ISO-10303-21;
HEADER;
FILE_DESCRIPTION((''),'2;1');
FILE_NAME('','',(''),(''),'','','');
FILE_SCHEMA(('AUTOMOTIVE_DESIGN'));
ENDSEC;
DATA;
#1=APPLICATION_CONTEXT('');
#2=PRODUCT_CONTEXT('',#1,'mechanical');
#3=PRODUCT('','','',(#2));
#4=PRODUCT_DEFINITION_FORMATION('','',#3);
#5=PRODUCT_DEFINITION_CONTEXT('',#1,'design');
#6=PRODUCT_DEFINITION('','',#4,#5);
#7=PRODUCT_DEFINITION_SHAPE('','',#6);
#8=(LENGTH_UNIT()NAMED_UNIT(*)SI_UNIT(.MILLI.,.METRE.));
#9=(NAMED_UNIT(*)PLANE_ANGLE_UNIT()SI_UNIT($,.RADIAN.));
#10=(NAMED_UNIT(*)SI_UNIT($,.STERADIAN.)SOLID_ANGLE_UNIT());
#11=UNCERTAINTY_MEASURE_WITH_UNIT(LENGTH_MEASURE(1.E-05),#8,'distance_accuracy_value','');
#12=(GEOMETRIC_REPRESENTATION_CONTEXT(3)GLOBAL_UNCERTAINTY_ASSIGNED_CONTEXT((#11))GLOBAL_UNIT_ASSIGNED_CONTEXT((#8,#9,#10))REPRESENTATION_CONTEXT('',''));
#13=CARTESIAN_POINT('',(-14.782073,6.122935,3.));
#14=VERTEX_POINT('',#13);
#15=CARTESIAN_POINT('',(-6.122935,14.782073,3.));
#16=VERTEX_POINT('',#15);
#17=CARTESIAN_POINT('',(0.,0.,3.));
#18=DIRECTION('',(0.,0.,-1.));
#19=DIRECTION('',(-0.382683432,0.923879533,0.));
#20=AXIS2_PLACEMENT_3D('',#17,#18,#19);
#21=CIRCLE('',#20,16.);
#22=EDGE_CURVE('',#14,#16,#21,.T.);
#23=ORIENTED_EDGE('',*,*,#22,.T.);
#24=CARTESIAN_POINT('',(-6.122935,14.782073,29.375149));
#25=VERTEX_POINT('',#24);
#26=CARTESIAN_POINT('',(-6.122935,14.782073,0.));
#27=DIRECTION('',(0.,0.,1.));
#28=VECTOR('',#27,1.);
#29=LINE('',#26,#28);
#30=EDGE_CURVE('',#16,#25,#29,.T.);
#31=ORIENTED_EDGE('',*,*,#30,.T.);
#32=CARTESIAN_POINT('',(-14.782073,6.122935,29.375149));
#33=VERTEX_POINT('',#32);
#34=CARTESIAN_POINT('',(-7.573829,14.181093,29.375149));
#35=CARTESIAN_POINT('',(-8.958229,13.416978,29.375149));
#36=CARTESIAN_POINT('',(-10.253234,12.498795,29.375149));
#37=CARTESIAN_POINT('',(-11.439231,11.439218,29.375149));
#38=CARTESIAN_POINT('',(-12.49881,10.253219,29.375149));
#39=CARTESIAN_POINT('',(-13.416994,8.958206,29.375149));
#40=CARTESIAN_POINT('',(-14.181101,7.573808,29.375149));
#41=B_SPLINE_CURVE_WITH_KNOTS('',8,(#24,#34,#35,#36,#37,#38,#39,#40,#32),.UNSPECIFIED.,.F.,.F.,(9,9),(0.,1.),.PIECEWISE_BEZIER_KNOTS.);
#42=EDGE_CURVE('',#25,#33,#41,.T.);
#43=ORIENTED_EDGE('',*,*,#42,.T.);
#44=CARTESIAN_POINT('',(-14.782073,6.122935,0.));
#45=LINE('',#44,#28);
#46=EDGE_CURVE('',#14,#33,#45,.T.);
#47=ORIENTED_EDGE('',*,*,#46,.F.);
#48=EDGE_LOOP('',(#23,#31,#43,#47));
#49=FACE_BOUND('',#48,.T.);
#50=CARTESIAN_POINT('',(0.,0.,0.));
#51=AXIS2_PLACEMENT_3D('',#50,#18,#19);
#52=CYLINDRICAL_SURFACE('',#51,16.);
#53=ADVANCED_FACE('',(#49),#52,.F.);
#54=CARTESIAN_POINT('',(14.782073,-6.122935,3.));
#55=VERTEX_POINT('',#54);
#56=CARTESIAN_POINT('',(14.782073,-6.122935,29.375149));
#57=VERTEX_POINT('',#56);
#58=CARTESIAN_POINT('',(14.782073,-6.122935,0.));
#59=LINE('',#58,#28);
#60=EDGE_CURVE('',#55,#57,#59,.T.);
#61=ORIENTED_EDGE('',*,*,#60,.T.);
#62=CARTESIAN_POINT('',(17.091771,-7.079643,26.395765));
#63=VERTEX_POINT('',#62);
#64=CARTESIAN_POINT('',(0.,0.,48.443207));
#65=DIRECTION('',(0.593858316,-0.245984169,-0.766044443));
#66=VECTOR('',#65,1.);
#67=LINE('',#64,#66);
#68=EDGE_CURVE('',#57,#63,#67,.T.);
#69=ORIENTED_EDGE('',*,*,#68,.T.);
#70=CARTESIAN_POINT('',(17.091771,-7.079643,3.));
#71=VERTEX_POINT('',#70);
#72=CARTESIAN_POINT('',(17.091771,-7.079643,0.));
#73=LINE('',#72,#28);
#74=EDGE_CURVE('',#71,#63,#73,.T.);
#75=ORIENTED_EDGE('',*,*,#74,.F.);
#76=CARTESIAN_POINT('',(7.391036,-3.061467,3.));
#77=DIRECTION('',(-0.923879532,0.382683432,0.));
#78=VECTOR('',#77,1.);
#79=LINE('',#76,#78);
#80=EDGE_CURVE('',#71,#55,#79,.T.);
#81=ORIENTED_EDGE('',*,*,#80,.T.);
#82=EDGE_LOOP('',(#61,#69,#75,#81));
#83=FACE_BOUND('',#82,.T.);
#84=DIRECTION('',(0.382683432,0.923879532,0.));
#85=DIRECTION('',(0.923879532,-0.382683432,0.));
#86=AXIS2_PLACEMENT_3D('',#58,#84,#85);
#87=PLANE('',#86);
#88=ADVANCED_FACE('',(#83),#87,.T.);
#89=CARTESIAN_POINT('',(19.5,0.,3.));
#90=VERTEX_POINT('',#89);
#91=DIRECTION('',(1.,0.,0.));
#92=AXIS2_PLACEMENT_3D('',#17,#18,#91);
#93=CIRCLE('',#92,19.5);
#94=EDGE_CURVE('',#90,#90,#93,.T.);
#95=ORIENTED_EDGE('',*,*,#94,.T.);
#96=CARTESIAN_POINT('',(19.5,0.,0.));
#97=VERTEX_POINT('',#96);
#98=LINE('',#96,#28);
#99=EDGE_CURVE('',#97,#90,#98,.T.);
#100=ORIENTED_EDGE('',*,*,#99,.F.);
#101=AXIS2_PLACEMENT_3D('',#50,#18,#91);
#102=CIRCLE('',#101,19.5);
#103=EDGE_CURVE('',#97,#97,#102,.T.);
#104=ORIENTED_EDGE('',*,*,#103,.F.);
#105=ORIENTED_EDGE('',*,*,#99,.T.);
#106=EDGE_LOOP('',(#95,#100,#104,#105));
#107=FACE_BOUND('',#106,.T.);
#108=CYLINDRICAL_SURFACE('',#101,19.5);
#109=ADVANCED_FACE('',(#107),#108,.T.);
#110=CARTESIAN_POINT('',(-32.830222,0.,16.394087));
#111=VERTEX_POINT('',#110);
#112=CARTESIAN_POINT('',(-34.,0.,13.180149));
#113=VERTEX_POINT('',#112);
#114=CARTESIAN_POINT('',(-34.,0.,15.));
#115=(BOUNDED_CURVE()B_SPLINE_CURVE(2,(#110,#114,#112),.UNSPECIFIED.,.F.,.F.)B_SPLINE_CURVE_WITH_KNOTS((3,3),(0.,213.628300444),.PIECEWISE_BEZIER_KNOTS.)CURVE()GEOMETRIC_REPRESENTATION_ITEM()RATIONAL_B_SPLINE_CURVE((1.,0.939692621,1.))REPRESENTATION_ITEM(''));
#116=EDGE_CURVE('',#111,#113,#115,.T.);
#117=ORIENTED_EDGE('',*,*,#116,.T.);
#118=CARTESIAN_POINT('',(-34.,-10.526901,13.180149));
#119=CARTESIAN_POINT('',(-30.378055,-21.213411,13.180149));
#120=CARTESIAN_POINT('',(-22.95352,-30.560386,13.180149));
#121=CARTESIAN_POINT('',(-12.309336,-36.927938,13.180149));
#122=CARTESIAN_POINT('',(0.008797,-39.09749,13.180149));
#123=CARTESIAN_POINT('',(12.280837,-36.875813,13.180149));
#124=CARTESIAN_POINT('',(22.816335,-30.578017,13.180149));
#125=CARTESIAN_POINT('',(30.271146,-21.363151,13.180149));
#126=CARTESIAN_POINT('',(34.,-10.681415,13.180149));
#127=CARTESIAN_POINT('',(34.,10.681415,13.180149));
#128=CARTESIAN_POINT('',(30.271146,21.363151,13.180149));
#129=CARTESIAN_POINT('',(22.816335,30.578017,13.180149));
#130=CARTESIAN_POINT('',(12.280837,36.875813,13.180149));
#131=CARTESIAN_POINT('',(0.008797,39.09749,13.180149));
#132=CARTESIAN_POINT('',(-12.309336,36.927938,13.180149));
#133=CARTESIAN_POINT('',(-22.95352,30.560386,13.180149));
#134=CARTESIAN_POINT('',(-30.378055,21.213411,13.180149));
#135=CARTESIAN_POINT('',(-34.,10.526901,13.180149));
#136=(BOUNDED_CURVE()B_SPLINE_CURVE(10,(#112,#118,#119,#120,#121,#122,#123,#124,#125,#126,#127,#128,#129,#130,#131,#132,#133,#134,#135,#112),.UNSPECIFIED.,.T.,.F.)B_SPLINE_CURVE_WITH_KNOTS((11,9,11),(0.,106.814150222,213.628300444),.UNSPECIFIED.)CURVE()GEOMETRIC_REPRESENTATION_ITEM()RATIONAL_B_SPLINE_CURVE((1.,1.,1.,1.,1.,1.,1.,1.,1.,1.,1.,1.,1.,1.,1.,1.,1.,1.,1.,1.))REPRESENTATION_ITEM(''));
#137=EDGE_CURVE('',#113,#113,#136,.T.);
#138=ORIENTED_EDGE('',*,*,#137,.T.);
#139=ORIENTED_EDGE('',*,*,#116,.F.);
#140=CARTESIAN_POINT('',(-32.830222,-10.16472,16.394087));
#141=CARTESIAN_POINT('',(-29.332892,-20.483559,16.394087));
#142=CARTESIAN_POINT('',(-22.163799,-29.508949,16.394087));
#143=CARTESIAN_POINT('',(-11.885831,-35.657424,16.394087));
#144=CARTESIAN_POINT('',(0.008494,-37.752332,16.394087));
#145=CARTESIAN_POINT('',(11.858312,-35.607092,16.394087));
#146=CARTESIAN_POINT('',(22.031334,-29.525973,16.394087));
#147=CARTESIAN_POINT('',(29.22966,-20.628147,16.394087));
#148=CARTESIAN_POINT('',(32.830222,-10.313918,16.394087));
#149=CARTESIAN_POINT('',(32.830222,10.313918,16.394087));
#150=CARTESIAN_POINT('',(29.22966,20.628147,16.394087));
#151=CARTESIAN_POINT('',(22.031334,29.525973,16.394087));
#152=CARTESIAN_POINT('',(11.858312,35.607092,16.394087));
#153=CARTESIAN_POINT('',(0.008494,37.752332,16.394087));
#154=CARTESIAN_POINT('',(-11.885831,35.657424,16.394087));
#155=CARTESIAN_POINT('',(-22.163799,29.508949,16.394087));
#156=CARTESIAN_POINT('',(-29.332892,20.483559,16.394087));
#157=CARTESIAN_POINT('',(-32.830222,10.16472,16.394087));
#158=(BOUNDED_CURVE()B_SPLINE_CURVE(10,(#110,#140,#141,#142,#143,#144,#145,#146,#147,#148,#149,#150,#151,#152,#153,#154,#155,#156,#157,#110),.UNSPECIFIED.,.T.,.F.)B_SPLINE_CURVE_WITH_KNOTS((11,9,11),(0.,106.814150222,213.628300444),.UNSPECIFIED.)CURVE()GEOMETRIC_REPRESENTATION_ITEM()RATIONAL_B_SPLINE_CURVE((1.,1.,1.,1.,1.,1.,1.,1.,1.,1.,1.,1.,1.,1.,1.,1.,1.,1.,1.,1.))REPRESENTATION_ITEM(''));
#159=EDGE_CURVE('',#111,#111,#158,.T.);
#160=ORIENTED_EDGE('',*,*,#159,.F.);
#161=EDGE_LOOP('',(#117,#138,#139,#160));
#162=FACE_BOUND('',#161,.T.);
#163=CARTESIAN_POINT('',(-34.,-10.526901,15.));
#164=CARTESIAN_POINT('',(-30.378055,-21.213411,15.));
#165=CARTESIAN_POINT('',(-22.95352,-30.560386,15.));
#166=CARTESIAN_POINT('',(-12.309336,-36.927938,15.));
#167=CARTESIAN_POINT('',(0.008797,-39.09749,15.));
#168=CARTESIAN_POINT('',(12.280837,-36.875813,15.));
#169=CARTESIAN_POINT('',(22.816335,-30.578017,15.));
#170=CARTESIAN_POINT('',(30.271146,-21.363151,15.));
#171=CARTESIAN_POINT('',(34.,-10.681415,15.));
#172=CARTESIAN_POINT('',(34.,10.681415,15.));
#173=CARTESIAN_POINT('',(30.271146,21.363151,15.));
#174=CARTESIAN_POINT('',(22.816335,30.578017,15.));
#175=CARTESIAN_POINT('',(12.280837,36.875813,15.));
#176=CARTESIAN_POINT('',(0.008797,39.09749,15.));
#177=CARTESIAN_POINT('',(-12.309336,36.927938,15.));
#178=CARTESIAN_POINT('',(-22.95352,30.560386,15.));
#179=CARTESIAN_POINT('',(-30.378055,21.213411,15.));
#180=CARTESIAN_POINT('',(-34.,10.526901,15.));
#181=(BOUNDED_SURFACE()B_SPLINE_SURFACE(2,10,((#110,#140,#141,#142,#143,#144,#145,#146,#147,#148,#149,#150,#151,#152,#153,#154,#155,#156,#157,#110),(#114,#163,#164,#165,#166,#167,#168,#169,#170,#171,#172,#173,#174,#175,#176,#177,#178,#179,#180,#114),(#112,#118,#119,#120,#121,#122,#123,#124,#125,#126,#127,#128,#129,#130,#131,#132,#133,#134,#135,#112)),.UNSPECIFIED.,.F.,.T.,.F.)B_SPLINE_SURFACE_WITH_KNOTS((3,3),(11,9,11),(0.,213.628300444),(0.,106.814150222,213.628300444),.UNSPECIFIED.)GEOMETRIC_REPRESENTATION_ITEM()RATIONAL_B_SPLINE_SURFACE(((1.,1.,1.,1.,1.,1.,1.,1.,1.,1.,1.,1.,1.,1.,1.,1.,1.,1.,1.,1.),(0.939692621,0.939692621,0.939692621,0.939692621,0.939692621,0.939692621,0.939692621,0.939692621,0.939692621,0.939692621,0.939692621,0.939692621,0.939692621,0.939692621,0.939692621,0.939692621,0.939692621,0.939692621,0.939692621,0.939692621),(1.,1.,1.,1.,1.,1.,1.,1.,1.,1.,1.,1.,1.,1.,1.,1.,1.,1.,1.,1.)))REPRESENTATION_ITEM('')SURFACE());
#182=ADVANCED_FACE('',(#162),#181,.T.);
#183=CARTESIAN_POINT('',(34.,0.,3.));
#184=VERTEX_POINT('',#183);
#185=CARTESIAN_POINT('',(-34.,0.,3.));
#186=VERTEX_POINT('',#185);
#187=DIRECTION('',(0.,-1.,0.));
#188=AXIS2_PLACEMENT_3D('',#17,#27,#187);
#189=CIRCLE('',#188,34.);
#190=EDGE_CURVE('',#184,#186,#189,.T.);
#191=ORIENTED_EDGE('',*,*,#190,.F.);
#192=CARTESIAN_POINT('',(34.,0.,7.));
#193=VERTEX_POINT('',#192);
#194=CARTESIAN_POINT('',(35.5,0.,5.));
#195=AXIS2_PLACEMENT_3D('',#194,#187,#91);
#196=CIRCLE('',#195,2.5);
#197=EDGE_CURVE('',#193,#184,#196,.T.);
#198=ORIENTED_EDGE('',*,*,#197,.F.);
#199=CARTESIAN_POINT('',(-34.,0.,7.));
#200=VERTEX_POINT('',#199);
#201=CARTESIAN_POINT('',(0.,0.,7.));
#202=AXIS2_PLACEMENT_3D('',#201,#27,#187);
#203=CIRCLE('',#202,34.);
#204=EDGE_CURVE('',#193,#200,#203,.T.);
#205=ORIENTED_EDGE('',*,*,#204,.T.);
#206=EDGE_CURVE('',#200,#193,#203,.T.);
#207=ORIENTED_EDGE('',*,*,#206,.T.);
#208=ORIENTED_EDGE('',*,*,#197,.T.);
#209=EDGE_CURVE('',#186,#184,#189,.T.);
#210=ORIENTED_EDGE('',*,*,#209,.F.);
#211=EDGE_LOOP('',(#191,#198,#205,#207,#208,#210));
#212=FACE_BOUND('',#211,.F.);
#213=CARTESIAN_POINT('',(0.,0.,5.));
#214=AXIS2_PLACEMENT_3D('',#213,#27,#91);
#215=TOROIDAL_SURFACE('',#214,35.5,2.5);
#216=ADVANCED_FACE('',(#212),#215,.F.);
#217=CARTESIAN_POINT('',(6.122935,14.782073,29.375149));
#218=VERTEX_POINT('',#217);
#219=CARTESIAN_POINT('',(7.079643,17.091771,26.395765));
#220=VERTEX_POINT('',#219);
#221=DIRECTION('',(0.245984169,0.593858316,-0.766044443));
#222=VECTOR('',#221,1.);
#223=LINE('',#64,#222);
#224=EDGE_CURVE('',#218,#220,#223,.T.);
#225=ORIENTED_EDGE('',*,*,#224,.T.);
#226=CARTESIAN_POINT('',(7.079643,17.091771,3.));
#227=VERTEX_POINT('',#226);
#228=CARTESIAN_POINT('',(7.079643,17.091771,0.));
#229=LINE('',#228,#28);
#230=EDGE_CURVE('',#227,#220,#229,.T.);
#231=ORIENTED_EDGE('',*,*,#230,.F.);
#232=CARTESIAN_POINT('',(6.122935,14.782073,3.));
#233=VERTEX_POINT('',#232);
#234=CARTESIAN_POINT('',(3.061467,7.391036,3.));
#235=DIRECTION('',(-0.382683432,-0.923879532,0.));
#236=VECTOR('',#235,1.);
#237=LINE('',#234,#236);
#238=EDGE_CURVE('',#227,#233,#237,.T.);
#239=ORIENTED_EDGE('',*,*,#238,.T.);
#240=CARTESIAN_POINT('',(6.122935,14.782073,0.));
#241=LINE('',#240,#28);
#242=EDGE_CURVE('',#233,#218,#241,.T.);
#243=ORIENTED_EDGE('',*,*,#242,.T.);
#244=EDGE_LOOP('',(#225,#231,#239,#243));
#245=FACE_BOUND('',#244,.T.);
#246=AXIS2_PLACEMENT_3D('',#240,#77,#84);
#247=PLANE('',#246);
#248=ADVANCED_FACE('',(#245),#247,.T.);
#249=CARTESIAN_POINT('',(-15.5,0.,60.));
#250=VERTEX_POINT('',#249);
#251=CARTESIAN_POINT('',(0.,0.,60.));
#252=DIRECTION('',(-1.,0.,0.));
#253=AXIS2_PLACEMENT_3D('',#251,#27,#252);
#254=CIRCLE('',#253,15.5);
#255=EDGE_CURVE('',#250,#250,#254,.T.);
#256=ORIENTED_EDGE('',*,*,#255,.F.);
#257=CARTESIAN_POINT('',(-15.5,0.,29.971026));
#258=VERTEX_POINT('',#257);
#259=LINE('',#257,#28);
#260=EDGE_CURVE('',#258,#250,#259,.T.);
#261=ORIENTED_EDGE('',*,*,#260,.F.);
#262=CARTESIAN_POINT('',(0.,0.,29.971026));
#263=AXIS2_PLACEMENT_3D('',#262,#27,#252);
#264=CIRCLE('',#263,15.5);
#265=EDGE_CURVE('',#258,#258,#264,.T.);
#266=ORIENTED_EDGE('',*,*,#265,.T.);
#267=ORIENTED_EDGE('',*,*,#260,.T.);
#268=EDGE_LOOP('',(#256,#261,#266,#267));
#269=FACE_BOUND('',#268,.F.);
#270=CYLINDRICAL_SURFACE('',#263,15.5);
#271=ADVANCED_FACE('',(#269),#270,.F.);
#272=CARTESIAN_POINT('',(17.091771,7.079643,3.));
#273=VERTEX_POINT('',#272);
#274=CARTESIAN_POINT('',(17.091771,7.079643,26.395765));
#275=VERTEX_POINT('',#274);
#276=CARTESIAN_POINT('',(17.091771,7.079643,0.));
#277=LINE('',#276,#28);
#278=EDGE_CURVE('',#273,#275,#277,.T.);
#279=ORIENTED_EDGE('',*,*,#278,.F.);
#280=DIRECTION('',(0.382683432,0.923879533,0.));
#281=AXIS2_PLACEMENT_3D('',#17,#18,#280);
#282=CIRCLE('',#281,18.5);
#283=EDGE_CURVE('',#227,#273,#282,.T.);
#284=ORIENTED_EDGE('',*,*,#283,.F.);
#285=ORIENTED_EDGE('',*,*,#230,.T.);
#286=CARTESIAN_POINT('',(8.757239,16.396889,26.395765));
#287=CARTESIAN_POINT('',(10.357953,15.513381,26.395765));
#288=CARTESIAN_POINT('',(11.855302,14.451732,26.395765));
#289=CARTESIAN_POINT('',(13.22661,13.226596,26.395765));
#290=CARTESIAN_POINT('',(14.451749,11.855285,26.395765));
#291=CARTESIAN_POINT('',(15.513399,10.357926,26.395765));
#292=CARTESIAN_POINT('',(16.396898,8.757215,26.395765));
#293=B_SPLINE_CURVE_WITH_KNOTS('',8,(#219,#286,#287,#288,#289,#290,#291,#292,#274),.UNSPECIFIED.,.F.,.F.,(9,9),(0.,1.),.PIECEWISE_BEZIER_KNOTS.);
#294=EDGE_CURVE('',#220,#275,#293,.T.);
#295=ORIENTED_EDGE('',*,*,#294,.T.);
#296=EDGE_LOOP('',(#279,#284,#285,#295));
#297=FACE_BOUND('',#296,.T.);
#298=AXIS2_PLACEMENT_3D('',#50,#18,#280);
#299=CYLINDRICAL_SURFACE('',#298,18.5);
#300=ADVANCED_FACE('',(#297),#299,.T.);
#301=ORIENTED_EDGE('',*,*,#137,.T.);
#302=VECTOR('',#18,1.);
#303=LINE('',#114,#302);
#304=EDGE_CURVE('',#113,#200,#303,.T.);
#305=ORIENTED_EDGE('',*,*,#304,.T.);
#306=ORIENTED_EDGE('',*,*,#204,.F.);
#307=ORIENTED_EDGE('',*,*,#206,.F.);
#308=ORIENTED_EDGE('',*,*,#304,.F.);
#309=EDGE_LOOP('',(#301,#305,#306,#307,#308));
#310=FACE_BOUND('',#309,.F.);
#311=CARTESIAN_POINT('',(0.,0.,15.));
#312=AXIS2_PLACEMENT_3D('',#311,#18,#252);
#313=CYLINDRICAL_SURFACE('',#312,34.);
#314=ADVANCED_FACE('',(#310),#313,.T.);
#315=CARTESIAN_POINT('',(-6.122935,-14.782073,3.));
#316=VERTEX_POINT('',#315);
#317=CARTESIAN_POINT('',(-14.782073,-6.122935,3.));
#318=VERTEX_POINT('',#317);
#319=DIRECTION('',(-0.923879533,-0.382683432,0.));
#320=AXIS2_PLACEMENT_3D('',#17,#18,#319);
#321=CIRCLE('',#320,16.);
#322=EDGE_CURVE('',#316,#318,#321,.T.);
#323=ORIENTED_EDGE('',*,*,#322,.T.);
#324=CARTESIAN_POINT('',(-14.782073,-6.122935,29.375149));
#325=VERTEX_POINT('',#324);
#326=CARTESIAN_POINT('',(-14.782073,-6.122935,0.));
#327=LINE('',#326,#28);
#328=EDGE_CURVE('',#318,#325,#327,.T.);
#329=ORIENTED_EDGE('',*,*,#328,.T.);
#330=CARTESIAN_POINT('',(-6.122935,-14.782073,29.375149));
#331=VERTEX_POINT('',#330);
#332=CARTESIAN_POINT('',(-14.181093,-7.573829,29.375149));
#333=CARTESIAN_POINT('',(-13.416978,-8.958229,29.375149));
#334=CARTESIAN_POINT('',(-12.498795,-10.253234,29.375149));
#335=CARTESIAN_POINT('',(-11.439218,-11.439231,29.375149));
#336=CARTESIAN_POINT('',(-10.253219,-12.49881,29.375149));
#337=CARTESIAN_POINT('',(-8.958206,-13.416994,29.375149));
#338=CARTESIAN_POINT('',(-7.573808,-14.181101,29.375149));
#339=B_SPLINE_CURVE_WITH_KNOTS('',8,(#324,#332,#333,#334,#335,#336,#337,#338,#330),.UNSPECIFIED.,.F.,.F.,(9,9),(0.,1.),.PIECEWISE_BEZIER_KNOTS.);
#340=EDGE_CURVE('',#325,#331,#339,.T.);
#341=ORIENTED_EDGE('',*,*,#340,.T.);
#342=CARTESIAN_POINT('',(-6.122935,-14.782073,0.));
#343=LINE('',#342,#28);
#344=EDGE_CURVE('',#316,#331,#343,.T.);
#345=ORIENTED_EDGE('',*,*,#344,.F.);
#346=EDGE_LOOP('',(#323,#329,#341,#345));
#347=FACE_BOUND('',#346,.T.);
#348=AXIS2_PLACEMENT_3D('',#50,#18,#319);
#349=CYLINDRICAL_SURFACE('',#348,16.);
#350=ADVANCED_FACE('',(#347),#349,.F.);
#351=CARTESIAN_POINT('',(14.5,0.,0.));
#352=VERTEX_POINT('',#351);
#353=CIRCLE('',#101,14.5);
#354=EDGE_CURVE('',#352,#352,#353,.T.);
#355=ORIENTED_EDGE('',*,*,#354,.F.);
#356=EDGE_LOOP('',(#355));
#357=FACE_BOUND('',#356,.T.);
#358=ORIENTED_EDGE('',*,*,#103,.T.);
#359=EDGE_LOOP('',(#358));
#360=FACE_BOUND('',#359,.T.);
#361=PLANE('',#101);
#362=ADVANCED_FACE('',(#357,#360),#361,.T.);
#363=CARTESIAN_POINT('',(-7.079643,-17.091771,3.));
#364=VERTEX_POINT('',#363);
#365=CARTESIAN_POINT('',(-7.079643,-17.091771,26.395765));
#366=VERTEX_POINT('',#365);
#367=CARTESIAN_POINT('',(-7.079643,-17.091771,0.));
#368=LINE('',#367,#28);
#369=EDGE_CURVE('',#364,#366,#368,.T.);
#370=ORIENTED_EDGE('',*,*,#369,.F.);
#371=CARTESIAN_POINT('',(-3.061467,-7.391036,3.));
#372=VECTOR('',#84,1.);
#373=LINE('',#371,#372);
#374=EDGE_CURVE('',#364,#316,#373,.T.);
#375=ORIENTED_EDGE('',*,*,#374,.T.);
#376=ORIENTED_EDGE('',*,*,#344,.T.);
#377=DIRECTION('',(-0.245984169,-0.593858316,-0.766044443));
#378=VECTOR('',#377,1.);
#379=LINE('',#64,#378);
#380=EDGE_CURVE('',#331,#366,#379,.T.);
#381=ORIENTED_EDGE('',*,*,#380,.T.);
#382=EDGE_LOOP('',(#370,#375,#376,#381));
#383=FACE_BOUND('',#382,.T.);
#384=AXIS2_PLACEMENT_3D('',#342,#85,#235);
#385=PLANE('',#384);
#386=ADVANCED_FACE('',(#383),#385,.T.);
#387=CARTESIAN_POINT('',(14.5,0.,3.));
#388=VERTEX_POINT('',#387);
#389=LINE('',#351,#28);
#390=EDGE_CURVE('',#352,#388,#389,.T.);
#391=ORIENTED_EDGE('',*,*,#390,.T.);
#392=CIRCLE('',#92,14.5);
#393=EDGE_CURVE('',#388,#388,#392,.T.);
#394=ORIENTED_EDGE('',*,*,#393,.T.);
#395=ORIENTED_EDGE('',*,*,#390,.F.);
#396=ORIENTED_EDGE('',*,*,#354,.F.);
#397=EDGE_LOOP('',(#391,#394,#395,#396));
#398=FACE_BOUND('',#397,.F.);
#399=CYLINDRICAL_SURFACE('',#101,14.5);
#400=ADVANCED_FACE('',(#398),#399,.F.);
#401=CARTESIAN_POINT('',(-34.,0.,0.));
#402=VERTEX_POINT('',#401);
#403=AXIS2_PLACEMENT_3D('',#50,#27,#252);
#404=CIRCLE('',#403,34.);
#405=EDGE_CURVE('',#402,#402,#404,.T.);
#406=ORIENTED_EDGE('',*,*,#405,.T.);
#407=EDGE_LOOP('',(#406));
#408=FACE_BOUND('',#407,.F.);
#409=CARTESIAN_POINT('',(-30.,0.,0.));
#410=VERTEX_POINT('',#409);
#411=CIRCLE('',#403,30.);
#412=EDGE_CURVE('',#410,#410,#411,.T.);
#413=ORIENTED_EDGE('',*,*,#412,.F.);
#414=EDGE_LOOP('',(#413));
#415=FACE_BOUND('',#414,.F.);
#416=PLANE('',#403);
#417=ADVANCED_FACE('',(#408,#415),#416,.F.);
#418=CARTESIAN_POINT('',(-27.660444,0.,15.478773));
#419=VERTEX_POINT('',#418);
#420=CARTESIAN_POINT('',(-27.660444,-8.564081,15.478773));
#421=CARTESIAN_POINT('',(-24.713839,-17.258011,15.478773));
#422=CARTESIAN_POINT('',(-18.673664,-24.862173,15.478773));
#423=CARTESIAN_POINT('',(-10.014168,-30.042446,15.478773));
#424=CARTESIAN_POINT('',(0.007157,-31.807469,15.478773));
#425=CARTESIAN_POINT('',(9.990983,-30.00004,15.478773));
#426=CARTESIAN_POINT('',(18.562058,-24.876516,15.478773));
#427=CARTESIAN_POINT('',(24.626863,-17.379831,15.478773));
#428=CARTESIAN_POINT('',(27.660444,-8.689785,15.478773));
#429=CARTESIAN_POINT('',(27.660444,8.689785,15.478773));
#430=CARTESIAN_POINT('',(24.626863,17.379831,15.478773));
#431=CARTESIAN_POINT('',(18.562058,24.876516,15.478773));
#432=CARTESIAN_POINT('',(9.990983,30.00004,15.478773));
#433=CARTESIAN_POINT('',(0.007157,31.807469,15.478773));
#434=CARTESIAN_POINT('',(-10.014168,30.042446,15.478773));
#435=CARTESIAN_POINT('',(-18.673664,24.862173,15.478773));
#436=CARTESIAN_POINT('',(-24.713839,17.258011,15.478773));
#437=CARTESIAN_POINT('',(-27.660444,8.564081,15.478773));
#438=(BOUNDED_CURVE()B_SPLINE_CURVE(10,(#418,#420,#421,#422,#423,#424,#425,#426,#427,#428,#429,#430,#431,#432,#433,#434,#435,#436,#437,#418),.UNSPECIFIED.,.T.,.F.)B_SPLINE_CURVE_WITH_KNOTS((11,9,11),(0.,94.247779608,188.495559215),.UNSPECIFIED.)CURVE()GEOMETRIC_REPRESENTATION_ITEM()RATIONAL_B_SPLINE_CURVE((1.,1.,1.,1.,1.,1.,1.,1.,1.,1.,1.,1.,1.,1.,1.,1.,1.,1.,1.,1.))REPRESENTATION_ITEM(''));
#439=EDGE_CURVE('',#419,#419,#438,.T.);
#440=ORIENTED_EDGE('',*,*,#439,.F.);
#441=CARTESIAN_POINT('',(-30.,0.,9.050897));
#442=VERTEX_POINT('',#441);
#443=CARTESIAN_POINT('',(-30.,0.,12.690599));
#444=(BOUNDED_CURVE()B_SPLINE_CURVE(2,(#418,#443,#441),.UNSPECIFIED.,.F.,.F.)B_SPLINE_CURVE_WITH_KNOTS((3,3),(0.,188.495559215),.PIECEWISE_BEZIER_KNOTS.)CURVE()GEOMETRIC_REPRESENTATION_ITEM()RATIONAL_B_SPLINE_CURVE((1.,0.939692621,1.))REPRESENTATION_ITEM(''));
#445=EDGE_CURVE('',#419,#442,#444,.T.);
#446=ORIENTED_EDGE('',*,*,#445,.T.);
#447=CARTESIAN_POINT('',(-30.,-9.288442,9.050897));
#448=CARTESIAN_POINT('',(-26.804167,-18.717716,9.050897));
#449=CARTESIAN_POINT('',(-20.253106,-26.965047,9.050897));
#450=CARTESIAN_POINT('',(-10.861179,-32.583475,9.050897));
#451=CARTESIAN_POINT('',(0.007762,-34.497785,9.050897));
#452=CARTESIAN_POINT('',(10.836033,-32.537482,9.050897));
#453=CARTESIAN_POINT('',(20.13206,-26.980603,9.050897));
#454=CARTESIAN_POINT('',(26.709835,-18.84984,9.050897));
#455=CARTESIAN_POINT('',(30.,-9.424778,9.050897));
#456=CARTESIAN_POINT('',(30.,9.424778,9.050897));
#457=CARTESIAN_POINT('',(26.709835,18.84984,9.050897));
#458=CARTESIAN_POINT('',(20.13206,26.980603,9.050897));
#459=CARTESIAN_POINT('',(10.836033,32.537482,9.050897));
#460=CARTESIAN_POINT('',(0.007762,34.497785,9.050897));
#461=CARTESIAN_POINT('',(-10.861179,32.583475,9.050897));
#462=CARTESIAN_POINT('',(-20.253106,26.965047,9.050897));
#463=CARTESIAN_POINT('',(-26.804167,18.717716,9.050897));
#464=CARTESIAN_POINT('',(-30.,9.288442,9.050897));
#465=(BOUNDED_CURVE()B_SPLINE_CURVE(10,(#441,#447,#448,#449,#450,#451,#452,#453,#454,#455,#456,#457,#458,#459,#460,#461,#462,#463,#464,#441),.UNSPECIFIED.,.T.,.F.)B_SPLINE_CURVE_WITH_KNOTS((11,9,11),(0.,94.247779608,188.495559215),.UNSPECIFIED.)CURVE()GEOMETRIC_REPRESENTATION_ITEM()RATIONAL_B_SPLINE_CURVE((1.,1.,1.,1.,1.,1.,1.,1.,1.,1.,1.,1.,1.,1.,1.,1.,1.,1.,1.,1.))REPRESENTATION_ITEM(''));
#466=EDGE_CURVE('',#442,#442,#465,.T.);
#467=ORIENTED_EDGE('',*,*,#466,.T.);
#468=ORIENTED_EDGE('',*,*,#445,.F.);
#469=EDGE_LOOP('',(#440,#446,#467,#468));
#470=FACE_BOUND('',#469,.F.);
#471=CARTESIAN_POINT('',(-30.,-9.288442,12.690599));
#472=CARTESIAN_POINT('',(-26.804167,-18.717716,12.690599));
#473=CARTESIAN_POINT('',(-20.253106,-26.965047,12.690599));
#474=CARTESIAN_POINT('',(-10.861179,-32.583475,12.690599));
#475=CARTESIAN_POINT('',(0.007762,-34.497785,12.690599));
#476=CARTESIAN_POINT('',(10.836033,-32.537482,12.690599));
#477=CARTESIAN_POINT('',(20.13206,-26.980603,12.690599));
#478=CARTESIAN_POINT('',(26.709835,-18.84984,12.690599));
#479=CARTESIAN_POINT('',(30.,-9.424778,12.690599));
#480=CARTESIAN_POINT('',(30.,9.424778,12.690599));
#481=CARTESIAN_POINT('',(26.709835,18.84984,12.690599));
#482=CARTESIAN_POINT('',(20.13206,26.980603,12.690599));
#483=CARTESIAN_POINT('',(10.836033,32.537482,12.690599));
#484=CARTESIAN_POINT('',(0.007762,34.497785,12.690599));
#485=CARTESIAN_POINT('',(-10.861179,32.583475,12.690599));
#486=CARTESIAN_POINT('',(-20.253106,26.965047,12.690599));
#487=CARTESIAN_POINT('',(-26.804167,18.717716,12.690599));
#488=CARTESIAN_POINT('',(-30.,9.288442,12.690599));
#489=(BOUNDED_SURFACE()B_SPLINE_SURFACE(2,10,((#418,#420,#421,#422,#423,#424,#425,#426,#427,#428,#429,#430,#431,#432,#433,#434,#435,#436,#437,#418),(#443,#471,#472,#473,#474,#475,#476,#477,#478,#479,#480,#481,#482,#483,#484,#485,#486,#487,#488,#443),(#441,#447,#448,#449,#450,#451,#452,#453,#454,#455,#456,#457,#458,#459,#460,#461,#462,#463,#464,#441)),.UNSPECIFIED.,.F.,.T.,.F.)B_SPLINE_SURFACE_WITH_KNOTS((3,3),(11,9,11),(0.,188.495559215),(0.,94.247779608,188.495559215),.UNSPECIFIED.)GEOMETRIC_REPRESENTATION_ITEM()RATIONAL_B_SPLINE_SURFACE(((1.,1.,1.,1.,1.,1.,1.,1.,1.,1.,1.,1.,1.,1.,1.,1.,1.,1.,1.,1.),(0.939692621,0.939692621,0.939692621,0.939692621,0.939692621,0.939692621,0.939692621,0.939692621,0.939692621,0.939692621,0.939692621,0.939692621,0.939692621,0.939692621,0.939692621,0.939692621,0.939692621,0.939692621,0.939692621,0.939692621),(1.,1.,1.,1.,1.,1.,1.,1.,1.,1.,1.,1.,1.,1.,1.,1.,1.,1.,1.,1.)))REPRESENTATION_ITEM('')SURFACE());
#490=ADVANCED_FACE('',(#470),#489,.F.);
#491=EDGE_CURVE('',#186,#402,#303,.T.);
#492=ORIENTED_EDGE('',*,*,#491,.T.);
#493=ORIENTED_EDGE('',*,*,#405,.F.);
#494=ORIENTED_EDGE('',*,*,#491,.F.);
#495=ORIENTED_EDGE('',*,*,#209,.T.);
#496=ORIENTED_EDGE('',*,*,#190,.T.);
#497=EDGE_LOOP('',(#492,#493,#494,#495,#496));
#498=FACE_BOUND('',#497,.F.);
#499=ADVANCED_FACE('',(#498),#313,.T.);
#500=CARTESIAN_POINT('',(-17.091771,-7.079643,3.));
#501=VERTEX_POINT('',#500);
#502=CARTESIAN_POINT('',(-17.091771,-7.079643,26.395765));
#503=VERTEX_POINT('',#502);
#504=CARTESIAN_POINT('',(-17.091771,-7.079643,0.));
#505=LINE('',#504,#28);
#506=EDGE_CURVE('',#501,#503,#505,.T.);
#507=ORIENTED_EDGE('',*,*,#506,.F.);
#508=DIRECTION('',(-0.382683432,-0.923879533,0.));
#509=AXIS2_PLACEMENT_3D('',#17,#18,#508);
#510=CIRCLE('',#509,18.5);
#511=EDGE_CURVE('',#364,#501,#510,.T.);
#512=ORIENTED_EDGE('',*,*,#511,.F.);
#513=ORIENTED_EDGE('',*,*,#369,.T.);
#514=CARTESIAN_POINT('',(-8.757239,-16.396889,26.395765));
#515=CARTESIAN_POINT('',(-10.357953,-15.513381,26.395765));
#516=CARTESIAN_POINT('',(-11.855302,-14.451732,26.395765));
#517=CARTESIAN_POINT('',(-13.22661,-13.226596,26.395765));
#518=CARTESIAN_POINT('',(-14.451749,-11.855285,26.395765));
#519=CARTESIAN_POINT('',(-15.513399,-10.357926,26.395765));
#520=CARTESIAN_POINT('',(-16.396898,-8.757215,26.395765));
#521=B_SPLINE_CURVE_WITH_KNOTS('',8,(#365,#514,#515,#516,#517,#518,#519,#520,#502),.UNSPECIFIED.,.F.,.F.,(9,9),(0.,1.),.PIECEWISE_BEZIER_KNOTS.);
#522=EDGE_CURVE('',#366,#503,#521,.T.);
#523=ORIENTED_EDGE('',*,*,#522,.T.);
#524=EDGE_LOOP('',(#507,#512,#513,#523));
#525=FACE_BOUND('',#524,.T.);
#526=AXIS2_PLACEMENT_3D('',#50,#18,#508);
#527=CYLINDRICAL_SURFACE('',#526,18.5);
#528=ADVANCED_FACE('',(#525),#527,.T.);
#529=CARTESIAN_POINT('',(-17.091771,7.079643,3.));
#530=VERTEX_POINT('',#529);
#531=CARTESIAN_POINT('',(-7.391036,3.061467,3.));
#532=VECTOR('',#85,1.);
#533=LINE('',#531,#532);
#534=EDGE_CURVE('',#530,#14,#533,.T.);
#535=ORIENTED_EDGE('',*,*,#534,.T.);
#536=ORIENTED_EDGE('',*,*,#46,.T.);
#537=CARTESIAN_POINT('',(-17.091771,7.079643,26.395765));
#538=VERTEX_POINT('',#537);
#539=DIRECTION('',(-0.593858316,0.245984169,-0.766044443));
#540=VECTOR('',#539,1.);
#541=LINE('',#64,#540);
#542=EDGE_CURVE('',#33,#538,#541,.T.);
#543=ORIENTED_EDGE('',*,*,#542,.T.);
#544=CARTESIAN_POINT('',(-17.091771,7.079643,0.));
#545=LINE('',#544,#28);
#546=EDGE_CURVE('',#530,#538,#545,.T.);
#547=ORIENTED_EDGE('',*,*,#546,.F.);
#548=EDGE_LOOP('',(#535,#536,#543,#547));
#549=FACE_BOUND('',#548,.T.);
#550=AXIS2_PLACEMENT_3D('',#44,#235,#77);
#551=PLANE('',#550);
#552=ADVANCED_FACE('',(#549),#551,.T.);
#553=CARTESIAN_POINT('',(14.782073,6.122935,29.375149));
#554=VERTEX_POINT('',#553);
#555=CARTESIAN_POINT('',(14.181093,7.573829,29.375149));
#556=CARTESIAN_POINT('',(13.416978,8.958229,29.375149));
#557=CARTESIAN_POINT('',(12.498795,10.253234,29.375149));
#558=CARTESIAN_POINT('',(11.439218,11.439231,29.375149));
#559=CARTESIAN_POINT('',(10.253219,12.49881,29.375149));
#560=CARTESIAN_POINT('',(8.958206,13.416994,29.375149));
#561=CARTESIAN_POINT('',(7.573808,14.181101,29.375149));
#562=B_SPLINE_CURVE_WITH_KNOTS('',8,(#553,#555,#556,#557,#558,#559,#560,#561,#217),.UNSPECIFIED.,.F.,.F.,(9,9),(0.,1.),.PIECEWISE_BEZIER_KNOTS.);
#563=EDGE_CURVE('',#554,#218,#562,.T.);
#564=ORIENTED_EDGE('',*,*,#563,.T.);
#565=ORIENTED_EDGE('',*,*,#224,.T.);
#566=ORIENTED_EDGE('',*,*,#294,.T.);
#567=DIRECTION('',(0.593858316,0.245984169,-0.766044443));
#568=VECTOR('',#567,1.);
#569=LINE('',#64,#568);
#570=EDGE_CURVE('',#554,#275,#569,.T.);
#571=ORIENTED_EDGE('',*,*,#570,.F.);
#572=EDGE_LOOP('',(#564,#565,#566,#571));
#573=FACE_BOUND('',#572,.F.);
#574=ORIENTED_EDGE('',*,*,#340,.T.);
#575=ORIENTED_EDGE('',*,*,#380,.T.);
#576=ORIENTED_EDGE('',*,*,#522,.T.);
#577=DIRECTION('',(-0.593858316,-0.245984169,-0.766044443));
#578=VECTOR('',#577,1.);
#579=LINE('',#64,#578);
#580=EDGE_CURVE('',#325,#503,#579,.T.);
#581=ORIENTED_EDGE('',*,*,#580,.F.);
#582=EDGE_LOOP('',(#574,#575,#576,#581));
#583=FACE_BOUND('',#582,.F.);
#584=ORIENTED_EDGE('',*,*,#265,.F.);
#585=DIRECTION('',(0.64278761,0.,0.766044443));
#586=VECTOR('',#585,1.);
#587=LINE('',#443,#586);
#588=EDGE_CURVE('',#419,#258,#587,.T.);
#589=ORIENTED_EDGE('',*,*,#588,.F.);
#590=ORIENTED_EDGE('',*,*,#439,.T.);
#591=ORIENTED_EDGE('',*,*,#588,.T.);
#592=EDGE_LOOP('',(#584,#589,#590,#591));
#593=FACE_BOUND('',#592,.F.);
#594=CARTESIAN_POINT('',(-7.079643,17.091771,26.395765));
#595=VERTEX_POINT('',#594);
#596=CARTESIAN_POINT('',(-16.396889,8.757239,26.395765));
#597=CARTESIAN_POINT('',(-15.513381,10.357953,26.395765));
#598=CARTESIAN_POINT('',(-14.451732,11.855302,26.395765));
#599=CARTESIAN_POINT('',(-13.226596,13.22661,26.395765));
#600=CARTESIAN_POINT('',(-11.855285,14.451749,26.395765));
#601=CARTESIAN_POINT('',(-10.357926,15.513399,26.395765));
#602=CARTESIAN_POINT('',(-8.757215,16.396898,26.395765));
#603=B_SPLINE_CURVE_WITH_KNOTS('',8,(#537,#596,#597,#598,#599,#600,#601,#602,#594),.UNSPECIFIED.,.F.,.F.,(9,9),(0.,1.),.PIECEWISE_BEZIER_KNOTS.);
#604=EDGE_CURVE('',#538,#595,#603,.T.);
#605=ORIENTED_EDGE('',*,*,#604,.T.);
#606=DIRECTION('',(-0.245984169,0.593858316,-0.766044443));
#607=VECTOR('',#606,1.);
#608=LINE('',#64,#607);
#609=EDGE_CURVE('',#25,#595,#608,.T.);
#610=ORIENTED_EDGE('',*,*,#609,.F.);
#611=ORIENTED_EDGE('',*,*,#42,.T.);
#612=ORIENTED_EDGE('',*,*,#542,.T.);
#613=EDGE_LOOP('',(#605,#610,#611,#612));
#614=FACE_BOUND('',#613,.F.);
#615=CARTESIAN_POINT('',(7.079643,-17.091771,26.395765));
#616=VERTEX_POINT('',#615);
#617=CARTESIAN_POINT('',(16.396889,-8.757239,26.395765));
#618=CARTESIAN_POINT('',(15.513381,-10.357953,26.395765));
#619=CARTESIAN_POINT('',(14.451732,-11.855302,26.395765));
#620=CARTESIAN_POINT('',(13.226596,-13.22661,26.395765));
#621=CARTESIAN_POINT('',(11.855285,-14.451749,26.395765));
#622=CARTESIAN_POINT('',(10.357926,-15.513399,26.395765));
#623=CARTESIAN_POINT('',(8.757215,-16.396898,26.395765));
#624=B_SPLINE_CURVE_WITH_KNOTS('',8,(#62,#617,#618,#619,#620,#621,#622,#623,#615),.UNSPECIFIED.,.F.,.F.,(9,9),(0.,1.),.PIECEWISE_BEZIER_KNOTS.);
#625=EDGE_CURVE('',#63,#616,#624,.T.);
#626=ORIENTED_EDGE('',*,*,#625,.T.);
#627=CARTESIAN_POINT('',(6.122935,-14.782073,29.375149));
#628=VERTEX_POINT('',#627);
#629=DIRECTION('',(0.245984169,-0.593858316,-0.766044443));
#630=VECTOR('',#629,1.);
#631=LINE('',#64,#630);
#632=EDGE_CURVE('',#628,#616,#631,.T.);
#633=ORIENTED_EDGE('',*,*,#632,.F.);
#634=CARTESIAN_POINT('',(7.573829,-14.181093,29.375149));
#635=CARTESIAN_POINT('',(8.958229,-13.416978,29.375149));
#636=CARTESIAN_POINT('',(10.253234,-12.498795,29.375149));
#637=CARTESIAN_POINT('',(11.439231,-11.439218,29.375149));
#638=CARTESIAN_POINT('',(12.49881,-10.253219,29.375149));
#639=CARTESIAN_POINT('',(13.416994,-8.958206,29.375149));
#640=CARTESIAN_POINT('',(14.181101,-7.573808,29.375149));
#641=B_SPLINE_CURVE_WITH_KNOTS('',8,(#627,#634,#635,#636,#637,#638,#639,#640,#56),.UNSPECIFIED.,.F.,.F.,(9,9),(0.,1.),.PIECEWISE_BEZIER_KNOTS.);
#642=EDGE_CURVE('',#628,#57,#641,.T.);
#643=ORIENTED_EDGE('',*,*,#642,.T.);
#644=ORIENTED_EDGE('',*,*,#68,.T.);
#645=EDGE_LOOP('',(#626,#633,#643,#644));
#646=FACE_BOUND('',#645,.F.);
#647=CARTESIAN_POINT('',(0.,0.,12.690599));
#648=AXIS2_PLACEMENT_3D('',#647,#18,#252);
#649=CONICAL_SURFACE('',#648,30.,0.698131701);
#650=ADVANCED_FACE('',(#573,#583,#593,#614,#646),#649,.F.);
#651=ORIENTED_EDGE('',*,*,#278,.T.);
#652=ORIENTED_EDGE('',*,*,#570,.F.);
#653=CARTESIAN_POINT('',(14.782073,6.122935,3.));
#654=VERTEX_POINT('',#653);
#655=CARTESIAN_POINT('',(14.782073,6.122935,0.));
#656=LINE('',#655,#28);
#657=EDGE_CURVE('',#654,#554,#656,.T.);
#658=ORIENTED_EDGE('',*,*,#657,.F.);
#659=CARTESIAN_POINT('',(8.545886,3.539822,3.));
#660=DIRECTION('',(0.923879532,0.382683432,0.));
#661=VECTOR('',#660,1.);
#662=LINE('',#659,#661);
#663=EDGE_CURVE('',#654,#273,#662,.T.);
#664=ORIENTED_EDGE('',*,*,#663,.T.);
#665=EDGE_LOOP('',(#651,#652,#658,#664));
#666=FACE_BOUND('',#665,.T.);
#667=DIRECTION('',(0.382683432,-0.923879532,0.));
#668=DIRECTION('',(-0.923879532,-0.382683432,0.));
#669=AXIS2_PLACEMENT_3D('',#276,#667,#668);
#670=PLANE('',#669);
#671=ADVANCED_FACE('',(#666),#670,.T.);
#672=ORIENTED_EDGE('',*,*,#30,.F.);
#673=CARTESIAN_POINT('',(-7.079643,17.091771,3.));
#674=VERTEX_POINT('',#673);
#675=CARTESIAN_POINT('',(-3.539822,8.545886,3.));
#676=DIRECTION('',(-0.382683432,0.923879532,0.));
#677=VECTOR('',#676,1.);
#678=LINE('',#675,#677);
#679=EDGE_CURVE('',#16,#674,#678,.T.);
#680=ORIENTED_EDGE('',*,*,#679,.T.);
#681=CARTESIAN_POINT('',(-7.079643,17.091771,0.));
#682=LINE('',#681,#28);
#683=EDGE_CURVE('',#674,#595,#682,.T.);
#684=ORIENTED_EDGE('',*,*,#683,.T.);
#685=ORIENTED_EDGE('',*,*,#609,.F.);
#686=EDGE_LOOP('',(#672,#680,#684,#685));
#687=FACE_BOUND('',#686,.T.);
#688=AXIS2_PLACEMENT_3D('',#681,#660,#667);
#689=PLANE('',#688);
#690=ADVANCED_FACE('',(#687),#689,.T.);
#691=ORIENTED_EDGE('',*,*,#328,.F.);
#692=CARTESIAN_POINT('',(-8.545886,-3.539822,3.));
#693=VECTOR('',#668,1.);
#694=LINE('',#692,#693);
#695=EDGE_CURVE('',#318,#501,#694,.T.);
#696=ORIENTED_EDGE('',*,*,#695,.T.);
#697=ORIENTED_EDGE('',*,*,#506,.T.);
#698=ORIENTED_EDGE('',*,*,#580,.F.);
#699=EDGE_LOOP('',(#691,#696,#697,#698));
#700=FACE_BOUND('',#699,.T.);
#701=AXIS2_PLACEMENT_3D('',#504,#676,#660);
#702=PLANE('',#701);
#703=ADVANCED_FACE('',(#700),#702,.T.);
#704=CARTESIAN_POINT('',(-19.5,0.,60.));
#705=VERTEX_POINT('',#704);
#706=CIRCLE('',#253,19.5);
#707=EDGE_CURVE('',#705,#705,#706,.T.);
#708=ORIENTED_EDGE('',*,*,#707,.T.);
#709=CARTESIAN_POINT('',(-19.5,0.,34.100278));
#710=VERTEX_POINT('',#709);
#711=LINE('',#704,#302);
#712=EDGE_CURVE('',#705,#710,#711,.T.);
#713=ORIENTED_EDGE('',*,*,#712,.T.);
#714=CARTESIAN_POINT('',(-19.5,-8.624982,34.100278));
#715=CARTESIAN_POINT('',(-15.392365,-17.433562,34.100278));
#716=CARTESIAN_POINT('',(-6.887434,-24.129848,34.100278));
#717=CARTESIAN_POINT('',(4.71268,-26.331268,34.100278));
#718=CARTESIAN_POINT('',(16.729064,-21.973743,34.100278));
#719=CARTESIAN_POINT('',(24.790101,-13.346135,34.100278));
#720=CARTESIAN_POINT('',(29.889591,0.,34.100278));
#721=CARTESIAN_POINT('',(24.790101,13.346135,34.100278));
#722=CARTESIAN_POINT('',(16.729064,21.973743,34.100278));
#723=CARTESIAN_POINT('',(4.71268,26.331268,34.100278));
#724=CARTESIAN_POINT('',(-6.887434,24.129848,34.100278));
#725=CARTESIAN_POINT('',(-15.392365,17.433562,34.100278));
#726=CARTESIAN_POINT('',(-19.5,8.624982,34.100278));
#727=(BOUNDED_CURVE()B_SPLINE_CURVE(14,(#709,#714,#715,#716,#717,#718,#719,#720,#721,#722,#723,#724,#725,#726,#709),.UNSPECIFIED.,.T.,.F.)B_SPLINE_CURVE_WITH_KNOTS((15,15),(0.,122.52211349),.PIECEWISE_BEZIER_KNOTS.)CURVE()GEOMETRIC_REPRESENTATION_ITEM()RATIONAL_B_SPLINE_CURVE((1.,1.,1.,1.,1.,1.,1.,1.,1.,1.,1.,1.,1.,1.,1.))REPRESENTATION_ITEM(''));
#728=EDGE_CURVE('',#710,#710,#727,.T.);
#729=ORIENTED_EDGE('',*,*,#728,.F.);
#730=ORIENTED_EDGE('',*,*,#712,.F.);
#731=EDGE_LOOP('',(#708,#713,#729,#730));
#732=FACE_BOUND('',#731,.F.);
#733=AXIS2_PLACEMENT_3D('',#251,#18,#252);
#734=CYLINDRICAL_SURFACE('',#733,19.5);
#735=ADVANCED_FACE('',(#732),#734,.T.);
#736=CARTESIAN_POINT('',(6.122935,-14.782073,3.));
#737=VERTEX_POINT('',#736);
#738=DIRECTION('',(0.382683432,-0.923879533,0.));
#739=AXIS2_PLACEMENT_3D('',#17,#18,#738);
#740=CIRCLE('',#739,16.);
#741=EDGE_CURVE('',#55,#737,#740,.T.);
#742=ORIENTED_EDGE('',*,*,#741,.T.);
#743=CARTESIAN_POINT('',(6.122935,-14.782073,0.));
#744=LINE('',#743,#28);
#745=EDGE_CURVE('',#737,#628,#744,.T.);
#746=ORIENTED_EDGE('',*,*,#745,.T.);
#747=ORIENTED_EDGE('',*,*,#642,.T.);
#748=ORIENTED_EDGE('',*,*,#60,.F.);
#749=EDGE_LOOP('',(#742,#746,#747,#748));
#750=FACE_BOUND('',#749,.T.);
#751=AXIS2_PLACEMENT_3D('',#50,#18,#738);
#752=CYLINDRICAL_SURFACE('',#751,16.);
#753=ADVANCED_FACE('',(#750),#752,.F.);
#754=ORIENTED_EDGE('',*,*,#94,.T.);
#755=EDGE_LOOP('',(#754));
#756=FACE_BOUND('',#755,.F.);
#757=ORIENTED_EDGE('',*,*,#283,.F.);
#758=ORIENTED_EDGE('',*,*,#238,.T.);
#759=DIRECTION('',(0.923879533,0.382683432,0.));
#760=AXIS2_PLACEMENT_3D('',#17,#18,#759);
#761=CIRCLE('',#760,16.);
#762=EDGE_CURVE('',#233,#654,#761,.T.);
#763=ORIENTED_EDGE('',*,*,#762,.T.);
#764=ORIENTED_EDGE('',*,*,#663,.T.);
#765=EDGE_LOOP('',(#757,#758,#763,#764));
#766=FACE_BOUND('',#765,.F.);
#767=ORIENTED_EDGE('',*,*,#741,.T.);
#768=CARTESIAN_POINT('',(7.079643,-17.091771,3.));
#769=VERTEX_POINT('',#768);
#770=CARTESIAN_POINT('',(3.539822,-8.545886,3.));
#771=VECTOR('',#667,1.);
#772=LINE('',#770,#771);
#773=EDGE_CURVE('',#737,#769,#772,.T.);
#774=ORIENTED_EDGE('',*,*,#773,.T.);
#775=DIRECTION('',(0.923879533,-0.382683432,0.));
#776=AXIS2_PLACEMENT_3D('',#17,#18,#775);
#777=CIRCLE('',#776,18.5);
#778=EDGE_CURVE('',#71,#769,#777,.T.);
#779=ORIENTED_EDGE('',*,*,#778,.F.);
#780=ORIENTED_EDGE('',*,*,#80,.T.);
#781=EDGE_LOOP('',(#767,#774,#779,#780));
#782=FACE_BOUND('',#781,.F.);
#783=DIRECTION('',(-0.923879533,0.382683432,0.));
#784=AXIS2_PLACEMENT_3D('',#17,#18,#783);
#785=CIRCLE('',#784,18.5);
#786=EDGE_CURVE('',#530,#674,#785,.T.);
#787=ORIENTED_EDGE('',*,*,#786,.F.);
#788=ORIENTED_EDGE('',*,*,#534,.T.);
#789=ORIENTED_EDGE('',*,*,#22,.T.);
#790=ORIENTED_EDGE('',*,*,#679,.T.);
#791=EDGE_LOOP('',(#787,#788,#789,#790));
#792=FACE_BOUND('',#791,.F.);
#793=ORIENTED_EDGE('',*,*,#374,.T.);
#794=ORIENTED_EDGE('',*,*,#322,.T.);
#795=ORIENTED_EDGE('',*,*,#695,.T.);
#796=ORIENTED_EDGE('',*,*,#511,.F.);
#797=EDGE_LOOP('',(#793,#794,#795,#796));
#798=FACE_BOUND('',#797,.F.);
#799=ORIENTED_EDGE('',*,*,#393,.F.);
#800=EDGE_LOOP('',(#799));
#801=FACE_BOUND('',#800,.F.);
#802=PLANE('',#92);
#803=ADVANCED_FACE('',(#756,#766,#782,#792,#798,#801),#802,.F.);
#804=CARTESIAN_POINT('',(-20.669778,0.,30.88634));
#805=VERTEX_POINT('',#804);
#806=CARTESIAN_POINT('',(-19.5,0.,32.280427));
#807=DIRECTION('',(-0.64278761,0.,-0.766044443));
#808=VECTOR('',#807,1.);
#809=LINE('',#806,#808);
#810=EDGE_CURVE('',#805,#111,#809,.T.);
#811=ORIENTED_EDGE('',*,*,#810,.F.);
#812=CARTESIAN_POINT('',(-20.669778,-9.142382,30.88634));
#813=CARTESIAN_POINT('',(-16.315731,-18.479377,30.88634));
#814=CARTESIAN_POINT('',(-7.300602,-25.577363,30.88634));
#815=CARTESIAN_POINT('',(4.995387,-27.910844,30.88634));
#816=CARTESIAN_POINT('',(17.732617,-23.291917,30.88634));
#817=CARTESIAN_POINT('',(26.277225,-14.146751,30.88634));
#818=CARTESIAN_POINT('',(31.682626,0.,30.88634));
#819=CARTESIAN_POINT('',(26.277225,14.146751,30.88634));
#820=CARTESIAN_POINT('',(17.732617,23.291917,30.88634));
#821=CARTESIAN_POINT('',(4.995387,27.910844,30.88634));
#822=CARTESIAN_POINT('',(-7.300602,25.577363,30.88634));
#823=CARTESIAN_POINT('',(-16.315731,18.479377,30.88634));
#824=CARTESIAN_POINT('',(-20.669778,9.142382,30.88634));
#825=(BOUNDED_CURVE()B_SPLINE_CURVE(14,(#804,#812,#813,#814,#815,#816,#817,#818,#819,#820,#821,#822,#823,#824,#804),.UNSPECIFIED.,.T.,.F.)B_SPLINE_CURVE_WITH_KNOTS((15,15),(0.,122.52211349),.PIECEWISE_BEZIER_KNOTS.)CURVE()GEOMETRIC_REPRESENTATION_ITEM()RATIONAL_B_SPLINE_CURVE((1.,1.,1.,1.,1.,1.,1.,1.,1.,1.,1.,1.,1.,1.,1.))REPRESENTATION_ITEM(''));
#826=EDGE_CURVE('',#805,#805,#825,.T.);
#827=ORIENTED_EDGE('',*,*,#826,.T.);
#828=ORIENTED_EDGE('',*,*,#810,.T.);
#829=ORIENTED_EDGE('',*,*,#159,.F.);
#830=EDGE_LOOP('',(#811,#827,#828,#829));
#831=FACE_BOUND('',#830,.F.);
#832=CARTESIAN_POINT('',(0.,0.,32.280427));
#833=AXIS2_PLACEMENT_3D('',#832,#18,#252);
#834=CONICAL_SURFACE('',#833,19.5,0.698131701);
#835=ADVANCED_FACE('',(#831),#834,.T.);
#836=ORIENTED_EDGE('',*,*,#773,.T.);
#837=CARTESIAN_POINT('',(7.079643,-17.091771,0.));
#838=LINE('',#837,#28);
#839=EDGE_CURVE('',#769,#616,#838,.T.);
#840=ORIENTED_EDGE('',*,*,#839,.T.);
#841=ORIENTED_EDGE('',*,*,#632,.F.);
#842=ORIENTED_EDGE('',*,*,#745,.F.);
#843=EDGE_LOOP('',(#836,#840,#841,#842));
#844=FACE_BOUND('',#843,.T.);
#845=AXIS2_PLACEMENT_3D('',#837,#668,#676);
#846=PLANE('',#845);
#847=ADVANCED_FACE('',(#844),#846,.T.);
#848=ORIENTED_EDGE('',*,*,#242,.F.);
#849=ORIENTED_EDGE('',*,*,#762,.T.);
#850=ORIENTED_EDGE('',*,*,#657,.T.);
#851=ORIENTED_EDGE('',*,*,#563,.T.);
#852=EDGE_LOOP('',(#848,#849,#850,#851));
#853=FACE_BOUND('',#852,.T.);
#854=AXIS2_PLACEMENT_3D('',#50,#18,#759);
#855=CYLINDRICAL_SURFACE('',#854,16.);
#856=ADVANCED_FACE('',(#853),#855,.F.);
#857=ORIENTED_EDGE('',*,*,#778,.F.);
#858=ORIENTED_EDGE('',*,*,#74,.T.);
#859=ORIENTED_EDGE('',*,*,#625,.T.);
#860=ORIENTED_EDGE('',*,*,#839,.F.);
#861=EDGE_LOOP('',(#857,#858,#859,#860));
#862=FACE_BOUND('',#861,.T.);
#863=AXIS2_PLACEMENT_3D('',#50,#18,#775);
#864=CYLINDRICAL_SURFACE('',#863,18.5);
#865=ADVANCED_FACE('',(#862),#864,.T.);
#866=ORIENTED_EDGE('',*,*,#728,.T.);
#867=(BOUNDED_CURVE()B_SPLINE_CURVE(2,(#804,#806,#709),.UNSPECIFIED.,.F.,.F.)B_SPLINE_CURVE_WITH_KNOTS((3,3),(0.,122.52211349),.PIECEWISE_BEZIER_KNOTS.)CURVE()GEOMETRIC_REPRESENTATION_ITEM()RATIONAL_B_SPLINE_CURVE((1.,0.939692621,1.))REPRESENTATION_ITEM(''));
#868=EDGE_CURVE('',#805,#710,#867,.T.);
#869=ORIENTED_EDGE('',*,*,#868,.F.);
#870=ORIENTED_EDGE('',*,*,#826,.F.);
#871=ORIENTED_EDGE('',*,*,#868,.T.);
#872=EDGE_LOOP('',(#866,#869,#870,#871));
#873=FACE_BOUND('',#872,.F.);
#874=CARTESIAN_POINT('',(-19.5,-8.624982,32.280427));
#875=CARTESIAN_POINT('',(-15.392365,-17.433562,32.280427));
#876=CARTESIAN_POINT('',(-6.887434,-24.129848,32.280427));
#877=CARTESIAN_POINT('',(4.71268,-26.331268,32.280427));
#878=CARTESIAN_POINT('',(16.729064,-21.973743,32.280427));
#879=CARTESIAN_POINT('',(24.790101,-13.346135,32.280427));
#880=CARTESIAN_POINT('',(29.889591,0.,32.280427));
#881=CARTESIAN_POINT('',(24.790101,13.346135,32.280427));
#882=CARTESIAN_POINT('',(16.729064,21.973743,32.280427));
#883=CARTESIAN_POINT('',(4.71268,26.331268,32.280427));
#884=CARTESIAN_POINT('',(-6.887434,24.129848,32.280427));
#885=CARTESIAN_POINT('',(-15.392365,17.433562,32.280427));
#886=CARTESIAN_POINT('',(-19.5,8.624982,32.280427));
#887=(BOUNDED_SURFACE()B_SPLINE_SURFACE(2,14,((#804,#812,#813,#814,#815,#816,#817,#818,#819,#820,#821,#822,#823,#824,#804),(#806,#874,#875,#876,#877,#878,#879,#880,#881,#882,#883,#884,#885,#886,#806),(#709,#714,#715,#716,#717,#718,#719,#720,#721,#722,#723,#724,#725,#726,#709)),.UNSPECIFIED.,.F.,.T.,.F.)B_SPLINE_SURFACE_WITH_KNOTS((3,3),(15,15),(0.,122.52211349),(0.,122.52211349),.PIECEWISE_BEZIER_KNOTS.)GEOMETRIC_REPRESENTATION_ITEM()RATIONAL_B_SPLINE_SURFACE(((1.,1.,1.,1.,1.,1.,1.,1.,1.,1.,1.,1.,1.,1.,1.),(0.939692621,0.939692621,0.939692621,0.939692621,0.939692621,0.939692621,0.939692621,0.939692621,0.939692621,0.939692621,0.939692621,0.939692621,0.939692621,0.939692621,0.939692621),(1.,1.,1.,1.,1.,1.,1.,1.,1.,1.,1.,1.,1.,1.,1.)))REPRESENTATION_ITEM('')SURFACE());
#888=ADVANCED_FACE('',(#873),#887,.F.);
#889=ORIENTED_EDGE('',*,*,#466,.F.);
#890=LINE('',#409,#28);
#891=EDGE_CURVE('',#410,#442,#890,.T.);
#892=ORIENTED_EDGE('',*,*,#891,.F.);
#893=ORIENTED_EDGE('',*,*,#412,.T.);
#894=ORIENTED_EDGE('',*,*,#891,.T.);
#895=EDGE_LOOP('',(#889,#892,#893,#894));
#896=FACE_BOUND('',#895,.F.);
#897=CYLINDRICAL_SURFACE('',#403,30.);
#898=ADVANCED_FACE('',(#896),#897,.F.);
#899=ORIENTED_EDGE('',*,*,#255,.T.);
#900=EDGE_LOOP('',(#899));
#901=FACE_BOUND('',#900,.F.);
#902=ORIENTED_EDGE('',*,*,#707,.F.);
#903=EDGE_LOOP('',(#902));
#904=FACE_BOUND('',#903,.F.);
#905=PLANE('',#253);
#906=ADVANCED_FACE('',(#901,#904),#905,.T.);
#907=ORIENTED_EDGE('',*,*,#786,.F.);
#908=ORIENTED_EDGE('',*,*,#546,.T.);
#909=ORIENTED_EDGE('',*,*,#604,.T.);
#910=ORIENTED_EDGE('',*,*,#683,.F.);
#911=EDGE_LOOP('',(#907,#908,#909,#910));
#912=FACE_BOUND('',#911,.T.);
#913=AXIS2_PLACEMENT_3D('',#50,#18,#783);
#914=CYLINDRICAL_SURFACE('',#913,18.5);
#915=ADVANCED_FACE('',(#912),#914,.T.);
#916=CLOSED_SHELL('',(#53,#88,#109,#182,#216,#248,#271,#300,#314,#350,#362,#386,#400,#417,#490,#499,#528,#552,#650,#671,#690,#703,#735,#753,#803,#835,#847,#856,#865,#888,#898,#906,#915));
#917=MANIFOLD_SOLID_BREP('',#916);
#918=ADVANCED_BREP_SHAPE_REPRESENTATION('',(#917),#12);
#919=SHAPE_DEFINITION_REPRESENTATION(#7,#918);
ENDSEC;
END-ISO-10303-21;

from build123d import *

# Parameters (mm, degrees)
F4_R     = 19.5
F4_R_2   = 14.5
F5_DEPTH = 3
F6_R     = 2.5
F8_R     = 10
F9_R     = 5
F10_R    = 5


with BuildPart() as f1:
    # F0 (on Front) → F1 (revolve)
    with BuildSketch(Plane.XZ):
        Polygon((-34, 0), (-30, 0), (-30, 12.6905989232), (-34, 15), align=None)
        Polygon((-34, 15), (-30, 12.6905989232), (-15.5, 29.9710260159), (-19.5, 32.2804270926), align=None)
        Polygon((-19.5, 32.2804270926), (-15.5, 29.9710260159), (-15.5, 60), (-19.5, 60), align=None)
    revolve(axis=Axis((0, 0, 34.7761163735), (0, 0, 1)))

    # F2 (on face) → F3 (join, up to the next surface of F1)
    with BuildSketch(Plane(origin=(0, 0, 0), x_dir=(1, 0, 0), z_dir=(0, 0, -1))):
        with BuildLine():
            ThreePointArc((-6.1229349178, -14.7820725202), (-11.313708499, -11.313708499), (-14.7820725202, -6.1229349178))
            Line((-14.7820725202, -6.1229349178), (-17.0917713515, -7.0796434988))
            ThreePointArc((-17.0917713515, -7.0796434988), (-13.081475452, -13.081475452), (-7.0796434988, -17.0917713515))
            Line((-7.0796434988, -17.0917713515), (-6.1229349178, -14.7820725202))
        make_face()
        with BuildLine():
            ThreePointArc((7.0796434988, -17.0917713515), (13.081475452, -13.081475452), (17.0917713515, -7.0796434988))
            Line((17.0917713515, -7.0796434988), (14.7820725202, -6.1229349178))
            ThreePointArc((14.7820725202, -6.1229349178), (11.313708499, -11.313708499), (6.1229349178, -14.7820725202))
            Line((6.1229349178, -14.7820725202), (7.0796434988, -17.0917713515))
        make_face()
        with BuildLine():
            Line((-17.0917713515, 7.0796434988), (-14.7820725202, 6.1229349178))
            ThreePointArc((-14.7820725202, 6.1229349178), (-11.313708499, 11.313708499), (-6.1229349178, 14.7820725202))
            Line((-6.1229349178, 14.7820725202), (-7.0796434988, 17.0917713515))
            ThreePointArc((-7.0796434988, 17.0917713515), (-13.081475452, 13.081475452), (-17.0917713515, 7.0796434988))
        make_face()
        with BuildLine():
            Line((14.7820725202, 6.1229349178), (17.0917713515, 7.0796434988))
            ThreePointArc((17.0917713515, 7.0796434988), (13.081475452, 13.081475452), (7.0796434988, 17.0917713515))
            Line((7.0796434988, 17.0917713515), (6.1229349178, 14.7820725202))
            ThreePointArc((6.1229349178, 14.7820725202), (11.313708499, 11.313708499), (14.7820725202, 6.1229349178))
        make_face()
    extrude(until=Until.NEXT, dir=(0, 0, 1))

    # F4 (on face) → F5 (join)
    with BuildSketch(Plane(origin=(0, 0, 0), x_dir=(1, 0, 0), z_dir=(0, 0, -1))):
        Circle(F4_R)
        Circle(F4_R_2, mode=Mode.SUBTRACT)
    extrude(amount=-F5_DEPTH)

    # F6 (on Front) → F7 (revolve, cut)
    with BuildSketch(Plane.XZ):
        with Locations((35.5, 5)):
            Circle(F6_R)
    revolve(axis=Axis((0, 0, 1.7348565161), (0, 0, 1)), mode=Mode.SUBTRACT)

    # F8
    f8_edges = [f1.edges().sort_by_distance(p)[0] for p in [
        (30, 0, 12.690599),
    ]]
    fillet(f8_edges, radius=F8_R)

    # F9
    f9_edges = [f1.edges().sort_by_distance(p)[0] for p in [
        (34, 0, 15),
    ]]
    fillet(f9_edges, radius=F9_R)

    # F10
    f10_edges = [f1.edges().sort_by_distance(p)[0] for p in [
        (19.5, 0, 32.280427),
    ]]
    fillet(f10_edges, radius=F10_R)


solid = f1.part
